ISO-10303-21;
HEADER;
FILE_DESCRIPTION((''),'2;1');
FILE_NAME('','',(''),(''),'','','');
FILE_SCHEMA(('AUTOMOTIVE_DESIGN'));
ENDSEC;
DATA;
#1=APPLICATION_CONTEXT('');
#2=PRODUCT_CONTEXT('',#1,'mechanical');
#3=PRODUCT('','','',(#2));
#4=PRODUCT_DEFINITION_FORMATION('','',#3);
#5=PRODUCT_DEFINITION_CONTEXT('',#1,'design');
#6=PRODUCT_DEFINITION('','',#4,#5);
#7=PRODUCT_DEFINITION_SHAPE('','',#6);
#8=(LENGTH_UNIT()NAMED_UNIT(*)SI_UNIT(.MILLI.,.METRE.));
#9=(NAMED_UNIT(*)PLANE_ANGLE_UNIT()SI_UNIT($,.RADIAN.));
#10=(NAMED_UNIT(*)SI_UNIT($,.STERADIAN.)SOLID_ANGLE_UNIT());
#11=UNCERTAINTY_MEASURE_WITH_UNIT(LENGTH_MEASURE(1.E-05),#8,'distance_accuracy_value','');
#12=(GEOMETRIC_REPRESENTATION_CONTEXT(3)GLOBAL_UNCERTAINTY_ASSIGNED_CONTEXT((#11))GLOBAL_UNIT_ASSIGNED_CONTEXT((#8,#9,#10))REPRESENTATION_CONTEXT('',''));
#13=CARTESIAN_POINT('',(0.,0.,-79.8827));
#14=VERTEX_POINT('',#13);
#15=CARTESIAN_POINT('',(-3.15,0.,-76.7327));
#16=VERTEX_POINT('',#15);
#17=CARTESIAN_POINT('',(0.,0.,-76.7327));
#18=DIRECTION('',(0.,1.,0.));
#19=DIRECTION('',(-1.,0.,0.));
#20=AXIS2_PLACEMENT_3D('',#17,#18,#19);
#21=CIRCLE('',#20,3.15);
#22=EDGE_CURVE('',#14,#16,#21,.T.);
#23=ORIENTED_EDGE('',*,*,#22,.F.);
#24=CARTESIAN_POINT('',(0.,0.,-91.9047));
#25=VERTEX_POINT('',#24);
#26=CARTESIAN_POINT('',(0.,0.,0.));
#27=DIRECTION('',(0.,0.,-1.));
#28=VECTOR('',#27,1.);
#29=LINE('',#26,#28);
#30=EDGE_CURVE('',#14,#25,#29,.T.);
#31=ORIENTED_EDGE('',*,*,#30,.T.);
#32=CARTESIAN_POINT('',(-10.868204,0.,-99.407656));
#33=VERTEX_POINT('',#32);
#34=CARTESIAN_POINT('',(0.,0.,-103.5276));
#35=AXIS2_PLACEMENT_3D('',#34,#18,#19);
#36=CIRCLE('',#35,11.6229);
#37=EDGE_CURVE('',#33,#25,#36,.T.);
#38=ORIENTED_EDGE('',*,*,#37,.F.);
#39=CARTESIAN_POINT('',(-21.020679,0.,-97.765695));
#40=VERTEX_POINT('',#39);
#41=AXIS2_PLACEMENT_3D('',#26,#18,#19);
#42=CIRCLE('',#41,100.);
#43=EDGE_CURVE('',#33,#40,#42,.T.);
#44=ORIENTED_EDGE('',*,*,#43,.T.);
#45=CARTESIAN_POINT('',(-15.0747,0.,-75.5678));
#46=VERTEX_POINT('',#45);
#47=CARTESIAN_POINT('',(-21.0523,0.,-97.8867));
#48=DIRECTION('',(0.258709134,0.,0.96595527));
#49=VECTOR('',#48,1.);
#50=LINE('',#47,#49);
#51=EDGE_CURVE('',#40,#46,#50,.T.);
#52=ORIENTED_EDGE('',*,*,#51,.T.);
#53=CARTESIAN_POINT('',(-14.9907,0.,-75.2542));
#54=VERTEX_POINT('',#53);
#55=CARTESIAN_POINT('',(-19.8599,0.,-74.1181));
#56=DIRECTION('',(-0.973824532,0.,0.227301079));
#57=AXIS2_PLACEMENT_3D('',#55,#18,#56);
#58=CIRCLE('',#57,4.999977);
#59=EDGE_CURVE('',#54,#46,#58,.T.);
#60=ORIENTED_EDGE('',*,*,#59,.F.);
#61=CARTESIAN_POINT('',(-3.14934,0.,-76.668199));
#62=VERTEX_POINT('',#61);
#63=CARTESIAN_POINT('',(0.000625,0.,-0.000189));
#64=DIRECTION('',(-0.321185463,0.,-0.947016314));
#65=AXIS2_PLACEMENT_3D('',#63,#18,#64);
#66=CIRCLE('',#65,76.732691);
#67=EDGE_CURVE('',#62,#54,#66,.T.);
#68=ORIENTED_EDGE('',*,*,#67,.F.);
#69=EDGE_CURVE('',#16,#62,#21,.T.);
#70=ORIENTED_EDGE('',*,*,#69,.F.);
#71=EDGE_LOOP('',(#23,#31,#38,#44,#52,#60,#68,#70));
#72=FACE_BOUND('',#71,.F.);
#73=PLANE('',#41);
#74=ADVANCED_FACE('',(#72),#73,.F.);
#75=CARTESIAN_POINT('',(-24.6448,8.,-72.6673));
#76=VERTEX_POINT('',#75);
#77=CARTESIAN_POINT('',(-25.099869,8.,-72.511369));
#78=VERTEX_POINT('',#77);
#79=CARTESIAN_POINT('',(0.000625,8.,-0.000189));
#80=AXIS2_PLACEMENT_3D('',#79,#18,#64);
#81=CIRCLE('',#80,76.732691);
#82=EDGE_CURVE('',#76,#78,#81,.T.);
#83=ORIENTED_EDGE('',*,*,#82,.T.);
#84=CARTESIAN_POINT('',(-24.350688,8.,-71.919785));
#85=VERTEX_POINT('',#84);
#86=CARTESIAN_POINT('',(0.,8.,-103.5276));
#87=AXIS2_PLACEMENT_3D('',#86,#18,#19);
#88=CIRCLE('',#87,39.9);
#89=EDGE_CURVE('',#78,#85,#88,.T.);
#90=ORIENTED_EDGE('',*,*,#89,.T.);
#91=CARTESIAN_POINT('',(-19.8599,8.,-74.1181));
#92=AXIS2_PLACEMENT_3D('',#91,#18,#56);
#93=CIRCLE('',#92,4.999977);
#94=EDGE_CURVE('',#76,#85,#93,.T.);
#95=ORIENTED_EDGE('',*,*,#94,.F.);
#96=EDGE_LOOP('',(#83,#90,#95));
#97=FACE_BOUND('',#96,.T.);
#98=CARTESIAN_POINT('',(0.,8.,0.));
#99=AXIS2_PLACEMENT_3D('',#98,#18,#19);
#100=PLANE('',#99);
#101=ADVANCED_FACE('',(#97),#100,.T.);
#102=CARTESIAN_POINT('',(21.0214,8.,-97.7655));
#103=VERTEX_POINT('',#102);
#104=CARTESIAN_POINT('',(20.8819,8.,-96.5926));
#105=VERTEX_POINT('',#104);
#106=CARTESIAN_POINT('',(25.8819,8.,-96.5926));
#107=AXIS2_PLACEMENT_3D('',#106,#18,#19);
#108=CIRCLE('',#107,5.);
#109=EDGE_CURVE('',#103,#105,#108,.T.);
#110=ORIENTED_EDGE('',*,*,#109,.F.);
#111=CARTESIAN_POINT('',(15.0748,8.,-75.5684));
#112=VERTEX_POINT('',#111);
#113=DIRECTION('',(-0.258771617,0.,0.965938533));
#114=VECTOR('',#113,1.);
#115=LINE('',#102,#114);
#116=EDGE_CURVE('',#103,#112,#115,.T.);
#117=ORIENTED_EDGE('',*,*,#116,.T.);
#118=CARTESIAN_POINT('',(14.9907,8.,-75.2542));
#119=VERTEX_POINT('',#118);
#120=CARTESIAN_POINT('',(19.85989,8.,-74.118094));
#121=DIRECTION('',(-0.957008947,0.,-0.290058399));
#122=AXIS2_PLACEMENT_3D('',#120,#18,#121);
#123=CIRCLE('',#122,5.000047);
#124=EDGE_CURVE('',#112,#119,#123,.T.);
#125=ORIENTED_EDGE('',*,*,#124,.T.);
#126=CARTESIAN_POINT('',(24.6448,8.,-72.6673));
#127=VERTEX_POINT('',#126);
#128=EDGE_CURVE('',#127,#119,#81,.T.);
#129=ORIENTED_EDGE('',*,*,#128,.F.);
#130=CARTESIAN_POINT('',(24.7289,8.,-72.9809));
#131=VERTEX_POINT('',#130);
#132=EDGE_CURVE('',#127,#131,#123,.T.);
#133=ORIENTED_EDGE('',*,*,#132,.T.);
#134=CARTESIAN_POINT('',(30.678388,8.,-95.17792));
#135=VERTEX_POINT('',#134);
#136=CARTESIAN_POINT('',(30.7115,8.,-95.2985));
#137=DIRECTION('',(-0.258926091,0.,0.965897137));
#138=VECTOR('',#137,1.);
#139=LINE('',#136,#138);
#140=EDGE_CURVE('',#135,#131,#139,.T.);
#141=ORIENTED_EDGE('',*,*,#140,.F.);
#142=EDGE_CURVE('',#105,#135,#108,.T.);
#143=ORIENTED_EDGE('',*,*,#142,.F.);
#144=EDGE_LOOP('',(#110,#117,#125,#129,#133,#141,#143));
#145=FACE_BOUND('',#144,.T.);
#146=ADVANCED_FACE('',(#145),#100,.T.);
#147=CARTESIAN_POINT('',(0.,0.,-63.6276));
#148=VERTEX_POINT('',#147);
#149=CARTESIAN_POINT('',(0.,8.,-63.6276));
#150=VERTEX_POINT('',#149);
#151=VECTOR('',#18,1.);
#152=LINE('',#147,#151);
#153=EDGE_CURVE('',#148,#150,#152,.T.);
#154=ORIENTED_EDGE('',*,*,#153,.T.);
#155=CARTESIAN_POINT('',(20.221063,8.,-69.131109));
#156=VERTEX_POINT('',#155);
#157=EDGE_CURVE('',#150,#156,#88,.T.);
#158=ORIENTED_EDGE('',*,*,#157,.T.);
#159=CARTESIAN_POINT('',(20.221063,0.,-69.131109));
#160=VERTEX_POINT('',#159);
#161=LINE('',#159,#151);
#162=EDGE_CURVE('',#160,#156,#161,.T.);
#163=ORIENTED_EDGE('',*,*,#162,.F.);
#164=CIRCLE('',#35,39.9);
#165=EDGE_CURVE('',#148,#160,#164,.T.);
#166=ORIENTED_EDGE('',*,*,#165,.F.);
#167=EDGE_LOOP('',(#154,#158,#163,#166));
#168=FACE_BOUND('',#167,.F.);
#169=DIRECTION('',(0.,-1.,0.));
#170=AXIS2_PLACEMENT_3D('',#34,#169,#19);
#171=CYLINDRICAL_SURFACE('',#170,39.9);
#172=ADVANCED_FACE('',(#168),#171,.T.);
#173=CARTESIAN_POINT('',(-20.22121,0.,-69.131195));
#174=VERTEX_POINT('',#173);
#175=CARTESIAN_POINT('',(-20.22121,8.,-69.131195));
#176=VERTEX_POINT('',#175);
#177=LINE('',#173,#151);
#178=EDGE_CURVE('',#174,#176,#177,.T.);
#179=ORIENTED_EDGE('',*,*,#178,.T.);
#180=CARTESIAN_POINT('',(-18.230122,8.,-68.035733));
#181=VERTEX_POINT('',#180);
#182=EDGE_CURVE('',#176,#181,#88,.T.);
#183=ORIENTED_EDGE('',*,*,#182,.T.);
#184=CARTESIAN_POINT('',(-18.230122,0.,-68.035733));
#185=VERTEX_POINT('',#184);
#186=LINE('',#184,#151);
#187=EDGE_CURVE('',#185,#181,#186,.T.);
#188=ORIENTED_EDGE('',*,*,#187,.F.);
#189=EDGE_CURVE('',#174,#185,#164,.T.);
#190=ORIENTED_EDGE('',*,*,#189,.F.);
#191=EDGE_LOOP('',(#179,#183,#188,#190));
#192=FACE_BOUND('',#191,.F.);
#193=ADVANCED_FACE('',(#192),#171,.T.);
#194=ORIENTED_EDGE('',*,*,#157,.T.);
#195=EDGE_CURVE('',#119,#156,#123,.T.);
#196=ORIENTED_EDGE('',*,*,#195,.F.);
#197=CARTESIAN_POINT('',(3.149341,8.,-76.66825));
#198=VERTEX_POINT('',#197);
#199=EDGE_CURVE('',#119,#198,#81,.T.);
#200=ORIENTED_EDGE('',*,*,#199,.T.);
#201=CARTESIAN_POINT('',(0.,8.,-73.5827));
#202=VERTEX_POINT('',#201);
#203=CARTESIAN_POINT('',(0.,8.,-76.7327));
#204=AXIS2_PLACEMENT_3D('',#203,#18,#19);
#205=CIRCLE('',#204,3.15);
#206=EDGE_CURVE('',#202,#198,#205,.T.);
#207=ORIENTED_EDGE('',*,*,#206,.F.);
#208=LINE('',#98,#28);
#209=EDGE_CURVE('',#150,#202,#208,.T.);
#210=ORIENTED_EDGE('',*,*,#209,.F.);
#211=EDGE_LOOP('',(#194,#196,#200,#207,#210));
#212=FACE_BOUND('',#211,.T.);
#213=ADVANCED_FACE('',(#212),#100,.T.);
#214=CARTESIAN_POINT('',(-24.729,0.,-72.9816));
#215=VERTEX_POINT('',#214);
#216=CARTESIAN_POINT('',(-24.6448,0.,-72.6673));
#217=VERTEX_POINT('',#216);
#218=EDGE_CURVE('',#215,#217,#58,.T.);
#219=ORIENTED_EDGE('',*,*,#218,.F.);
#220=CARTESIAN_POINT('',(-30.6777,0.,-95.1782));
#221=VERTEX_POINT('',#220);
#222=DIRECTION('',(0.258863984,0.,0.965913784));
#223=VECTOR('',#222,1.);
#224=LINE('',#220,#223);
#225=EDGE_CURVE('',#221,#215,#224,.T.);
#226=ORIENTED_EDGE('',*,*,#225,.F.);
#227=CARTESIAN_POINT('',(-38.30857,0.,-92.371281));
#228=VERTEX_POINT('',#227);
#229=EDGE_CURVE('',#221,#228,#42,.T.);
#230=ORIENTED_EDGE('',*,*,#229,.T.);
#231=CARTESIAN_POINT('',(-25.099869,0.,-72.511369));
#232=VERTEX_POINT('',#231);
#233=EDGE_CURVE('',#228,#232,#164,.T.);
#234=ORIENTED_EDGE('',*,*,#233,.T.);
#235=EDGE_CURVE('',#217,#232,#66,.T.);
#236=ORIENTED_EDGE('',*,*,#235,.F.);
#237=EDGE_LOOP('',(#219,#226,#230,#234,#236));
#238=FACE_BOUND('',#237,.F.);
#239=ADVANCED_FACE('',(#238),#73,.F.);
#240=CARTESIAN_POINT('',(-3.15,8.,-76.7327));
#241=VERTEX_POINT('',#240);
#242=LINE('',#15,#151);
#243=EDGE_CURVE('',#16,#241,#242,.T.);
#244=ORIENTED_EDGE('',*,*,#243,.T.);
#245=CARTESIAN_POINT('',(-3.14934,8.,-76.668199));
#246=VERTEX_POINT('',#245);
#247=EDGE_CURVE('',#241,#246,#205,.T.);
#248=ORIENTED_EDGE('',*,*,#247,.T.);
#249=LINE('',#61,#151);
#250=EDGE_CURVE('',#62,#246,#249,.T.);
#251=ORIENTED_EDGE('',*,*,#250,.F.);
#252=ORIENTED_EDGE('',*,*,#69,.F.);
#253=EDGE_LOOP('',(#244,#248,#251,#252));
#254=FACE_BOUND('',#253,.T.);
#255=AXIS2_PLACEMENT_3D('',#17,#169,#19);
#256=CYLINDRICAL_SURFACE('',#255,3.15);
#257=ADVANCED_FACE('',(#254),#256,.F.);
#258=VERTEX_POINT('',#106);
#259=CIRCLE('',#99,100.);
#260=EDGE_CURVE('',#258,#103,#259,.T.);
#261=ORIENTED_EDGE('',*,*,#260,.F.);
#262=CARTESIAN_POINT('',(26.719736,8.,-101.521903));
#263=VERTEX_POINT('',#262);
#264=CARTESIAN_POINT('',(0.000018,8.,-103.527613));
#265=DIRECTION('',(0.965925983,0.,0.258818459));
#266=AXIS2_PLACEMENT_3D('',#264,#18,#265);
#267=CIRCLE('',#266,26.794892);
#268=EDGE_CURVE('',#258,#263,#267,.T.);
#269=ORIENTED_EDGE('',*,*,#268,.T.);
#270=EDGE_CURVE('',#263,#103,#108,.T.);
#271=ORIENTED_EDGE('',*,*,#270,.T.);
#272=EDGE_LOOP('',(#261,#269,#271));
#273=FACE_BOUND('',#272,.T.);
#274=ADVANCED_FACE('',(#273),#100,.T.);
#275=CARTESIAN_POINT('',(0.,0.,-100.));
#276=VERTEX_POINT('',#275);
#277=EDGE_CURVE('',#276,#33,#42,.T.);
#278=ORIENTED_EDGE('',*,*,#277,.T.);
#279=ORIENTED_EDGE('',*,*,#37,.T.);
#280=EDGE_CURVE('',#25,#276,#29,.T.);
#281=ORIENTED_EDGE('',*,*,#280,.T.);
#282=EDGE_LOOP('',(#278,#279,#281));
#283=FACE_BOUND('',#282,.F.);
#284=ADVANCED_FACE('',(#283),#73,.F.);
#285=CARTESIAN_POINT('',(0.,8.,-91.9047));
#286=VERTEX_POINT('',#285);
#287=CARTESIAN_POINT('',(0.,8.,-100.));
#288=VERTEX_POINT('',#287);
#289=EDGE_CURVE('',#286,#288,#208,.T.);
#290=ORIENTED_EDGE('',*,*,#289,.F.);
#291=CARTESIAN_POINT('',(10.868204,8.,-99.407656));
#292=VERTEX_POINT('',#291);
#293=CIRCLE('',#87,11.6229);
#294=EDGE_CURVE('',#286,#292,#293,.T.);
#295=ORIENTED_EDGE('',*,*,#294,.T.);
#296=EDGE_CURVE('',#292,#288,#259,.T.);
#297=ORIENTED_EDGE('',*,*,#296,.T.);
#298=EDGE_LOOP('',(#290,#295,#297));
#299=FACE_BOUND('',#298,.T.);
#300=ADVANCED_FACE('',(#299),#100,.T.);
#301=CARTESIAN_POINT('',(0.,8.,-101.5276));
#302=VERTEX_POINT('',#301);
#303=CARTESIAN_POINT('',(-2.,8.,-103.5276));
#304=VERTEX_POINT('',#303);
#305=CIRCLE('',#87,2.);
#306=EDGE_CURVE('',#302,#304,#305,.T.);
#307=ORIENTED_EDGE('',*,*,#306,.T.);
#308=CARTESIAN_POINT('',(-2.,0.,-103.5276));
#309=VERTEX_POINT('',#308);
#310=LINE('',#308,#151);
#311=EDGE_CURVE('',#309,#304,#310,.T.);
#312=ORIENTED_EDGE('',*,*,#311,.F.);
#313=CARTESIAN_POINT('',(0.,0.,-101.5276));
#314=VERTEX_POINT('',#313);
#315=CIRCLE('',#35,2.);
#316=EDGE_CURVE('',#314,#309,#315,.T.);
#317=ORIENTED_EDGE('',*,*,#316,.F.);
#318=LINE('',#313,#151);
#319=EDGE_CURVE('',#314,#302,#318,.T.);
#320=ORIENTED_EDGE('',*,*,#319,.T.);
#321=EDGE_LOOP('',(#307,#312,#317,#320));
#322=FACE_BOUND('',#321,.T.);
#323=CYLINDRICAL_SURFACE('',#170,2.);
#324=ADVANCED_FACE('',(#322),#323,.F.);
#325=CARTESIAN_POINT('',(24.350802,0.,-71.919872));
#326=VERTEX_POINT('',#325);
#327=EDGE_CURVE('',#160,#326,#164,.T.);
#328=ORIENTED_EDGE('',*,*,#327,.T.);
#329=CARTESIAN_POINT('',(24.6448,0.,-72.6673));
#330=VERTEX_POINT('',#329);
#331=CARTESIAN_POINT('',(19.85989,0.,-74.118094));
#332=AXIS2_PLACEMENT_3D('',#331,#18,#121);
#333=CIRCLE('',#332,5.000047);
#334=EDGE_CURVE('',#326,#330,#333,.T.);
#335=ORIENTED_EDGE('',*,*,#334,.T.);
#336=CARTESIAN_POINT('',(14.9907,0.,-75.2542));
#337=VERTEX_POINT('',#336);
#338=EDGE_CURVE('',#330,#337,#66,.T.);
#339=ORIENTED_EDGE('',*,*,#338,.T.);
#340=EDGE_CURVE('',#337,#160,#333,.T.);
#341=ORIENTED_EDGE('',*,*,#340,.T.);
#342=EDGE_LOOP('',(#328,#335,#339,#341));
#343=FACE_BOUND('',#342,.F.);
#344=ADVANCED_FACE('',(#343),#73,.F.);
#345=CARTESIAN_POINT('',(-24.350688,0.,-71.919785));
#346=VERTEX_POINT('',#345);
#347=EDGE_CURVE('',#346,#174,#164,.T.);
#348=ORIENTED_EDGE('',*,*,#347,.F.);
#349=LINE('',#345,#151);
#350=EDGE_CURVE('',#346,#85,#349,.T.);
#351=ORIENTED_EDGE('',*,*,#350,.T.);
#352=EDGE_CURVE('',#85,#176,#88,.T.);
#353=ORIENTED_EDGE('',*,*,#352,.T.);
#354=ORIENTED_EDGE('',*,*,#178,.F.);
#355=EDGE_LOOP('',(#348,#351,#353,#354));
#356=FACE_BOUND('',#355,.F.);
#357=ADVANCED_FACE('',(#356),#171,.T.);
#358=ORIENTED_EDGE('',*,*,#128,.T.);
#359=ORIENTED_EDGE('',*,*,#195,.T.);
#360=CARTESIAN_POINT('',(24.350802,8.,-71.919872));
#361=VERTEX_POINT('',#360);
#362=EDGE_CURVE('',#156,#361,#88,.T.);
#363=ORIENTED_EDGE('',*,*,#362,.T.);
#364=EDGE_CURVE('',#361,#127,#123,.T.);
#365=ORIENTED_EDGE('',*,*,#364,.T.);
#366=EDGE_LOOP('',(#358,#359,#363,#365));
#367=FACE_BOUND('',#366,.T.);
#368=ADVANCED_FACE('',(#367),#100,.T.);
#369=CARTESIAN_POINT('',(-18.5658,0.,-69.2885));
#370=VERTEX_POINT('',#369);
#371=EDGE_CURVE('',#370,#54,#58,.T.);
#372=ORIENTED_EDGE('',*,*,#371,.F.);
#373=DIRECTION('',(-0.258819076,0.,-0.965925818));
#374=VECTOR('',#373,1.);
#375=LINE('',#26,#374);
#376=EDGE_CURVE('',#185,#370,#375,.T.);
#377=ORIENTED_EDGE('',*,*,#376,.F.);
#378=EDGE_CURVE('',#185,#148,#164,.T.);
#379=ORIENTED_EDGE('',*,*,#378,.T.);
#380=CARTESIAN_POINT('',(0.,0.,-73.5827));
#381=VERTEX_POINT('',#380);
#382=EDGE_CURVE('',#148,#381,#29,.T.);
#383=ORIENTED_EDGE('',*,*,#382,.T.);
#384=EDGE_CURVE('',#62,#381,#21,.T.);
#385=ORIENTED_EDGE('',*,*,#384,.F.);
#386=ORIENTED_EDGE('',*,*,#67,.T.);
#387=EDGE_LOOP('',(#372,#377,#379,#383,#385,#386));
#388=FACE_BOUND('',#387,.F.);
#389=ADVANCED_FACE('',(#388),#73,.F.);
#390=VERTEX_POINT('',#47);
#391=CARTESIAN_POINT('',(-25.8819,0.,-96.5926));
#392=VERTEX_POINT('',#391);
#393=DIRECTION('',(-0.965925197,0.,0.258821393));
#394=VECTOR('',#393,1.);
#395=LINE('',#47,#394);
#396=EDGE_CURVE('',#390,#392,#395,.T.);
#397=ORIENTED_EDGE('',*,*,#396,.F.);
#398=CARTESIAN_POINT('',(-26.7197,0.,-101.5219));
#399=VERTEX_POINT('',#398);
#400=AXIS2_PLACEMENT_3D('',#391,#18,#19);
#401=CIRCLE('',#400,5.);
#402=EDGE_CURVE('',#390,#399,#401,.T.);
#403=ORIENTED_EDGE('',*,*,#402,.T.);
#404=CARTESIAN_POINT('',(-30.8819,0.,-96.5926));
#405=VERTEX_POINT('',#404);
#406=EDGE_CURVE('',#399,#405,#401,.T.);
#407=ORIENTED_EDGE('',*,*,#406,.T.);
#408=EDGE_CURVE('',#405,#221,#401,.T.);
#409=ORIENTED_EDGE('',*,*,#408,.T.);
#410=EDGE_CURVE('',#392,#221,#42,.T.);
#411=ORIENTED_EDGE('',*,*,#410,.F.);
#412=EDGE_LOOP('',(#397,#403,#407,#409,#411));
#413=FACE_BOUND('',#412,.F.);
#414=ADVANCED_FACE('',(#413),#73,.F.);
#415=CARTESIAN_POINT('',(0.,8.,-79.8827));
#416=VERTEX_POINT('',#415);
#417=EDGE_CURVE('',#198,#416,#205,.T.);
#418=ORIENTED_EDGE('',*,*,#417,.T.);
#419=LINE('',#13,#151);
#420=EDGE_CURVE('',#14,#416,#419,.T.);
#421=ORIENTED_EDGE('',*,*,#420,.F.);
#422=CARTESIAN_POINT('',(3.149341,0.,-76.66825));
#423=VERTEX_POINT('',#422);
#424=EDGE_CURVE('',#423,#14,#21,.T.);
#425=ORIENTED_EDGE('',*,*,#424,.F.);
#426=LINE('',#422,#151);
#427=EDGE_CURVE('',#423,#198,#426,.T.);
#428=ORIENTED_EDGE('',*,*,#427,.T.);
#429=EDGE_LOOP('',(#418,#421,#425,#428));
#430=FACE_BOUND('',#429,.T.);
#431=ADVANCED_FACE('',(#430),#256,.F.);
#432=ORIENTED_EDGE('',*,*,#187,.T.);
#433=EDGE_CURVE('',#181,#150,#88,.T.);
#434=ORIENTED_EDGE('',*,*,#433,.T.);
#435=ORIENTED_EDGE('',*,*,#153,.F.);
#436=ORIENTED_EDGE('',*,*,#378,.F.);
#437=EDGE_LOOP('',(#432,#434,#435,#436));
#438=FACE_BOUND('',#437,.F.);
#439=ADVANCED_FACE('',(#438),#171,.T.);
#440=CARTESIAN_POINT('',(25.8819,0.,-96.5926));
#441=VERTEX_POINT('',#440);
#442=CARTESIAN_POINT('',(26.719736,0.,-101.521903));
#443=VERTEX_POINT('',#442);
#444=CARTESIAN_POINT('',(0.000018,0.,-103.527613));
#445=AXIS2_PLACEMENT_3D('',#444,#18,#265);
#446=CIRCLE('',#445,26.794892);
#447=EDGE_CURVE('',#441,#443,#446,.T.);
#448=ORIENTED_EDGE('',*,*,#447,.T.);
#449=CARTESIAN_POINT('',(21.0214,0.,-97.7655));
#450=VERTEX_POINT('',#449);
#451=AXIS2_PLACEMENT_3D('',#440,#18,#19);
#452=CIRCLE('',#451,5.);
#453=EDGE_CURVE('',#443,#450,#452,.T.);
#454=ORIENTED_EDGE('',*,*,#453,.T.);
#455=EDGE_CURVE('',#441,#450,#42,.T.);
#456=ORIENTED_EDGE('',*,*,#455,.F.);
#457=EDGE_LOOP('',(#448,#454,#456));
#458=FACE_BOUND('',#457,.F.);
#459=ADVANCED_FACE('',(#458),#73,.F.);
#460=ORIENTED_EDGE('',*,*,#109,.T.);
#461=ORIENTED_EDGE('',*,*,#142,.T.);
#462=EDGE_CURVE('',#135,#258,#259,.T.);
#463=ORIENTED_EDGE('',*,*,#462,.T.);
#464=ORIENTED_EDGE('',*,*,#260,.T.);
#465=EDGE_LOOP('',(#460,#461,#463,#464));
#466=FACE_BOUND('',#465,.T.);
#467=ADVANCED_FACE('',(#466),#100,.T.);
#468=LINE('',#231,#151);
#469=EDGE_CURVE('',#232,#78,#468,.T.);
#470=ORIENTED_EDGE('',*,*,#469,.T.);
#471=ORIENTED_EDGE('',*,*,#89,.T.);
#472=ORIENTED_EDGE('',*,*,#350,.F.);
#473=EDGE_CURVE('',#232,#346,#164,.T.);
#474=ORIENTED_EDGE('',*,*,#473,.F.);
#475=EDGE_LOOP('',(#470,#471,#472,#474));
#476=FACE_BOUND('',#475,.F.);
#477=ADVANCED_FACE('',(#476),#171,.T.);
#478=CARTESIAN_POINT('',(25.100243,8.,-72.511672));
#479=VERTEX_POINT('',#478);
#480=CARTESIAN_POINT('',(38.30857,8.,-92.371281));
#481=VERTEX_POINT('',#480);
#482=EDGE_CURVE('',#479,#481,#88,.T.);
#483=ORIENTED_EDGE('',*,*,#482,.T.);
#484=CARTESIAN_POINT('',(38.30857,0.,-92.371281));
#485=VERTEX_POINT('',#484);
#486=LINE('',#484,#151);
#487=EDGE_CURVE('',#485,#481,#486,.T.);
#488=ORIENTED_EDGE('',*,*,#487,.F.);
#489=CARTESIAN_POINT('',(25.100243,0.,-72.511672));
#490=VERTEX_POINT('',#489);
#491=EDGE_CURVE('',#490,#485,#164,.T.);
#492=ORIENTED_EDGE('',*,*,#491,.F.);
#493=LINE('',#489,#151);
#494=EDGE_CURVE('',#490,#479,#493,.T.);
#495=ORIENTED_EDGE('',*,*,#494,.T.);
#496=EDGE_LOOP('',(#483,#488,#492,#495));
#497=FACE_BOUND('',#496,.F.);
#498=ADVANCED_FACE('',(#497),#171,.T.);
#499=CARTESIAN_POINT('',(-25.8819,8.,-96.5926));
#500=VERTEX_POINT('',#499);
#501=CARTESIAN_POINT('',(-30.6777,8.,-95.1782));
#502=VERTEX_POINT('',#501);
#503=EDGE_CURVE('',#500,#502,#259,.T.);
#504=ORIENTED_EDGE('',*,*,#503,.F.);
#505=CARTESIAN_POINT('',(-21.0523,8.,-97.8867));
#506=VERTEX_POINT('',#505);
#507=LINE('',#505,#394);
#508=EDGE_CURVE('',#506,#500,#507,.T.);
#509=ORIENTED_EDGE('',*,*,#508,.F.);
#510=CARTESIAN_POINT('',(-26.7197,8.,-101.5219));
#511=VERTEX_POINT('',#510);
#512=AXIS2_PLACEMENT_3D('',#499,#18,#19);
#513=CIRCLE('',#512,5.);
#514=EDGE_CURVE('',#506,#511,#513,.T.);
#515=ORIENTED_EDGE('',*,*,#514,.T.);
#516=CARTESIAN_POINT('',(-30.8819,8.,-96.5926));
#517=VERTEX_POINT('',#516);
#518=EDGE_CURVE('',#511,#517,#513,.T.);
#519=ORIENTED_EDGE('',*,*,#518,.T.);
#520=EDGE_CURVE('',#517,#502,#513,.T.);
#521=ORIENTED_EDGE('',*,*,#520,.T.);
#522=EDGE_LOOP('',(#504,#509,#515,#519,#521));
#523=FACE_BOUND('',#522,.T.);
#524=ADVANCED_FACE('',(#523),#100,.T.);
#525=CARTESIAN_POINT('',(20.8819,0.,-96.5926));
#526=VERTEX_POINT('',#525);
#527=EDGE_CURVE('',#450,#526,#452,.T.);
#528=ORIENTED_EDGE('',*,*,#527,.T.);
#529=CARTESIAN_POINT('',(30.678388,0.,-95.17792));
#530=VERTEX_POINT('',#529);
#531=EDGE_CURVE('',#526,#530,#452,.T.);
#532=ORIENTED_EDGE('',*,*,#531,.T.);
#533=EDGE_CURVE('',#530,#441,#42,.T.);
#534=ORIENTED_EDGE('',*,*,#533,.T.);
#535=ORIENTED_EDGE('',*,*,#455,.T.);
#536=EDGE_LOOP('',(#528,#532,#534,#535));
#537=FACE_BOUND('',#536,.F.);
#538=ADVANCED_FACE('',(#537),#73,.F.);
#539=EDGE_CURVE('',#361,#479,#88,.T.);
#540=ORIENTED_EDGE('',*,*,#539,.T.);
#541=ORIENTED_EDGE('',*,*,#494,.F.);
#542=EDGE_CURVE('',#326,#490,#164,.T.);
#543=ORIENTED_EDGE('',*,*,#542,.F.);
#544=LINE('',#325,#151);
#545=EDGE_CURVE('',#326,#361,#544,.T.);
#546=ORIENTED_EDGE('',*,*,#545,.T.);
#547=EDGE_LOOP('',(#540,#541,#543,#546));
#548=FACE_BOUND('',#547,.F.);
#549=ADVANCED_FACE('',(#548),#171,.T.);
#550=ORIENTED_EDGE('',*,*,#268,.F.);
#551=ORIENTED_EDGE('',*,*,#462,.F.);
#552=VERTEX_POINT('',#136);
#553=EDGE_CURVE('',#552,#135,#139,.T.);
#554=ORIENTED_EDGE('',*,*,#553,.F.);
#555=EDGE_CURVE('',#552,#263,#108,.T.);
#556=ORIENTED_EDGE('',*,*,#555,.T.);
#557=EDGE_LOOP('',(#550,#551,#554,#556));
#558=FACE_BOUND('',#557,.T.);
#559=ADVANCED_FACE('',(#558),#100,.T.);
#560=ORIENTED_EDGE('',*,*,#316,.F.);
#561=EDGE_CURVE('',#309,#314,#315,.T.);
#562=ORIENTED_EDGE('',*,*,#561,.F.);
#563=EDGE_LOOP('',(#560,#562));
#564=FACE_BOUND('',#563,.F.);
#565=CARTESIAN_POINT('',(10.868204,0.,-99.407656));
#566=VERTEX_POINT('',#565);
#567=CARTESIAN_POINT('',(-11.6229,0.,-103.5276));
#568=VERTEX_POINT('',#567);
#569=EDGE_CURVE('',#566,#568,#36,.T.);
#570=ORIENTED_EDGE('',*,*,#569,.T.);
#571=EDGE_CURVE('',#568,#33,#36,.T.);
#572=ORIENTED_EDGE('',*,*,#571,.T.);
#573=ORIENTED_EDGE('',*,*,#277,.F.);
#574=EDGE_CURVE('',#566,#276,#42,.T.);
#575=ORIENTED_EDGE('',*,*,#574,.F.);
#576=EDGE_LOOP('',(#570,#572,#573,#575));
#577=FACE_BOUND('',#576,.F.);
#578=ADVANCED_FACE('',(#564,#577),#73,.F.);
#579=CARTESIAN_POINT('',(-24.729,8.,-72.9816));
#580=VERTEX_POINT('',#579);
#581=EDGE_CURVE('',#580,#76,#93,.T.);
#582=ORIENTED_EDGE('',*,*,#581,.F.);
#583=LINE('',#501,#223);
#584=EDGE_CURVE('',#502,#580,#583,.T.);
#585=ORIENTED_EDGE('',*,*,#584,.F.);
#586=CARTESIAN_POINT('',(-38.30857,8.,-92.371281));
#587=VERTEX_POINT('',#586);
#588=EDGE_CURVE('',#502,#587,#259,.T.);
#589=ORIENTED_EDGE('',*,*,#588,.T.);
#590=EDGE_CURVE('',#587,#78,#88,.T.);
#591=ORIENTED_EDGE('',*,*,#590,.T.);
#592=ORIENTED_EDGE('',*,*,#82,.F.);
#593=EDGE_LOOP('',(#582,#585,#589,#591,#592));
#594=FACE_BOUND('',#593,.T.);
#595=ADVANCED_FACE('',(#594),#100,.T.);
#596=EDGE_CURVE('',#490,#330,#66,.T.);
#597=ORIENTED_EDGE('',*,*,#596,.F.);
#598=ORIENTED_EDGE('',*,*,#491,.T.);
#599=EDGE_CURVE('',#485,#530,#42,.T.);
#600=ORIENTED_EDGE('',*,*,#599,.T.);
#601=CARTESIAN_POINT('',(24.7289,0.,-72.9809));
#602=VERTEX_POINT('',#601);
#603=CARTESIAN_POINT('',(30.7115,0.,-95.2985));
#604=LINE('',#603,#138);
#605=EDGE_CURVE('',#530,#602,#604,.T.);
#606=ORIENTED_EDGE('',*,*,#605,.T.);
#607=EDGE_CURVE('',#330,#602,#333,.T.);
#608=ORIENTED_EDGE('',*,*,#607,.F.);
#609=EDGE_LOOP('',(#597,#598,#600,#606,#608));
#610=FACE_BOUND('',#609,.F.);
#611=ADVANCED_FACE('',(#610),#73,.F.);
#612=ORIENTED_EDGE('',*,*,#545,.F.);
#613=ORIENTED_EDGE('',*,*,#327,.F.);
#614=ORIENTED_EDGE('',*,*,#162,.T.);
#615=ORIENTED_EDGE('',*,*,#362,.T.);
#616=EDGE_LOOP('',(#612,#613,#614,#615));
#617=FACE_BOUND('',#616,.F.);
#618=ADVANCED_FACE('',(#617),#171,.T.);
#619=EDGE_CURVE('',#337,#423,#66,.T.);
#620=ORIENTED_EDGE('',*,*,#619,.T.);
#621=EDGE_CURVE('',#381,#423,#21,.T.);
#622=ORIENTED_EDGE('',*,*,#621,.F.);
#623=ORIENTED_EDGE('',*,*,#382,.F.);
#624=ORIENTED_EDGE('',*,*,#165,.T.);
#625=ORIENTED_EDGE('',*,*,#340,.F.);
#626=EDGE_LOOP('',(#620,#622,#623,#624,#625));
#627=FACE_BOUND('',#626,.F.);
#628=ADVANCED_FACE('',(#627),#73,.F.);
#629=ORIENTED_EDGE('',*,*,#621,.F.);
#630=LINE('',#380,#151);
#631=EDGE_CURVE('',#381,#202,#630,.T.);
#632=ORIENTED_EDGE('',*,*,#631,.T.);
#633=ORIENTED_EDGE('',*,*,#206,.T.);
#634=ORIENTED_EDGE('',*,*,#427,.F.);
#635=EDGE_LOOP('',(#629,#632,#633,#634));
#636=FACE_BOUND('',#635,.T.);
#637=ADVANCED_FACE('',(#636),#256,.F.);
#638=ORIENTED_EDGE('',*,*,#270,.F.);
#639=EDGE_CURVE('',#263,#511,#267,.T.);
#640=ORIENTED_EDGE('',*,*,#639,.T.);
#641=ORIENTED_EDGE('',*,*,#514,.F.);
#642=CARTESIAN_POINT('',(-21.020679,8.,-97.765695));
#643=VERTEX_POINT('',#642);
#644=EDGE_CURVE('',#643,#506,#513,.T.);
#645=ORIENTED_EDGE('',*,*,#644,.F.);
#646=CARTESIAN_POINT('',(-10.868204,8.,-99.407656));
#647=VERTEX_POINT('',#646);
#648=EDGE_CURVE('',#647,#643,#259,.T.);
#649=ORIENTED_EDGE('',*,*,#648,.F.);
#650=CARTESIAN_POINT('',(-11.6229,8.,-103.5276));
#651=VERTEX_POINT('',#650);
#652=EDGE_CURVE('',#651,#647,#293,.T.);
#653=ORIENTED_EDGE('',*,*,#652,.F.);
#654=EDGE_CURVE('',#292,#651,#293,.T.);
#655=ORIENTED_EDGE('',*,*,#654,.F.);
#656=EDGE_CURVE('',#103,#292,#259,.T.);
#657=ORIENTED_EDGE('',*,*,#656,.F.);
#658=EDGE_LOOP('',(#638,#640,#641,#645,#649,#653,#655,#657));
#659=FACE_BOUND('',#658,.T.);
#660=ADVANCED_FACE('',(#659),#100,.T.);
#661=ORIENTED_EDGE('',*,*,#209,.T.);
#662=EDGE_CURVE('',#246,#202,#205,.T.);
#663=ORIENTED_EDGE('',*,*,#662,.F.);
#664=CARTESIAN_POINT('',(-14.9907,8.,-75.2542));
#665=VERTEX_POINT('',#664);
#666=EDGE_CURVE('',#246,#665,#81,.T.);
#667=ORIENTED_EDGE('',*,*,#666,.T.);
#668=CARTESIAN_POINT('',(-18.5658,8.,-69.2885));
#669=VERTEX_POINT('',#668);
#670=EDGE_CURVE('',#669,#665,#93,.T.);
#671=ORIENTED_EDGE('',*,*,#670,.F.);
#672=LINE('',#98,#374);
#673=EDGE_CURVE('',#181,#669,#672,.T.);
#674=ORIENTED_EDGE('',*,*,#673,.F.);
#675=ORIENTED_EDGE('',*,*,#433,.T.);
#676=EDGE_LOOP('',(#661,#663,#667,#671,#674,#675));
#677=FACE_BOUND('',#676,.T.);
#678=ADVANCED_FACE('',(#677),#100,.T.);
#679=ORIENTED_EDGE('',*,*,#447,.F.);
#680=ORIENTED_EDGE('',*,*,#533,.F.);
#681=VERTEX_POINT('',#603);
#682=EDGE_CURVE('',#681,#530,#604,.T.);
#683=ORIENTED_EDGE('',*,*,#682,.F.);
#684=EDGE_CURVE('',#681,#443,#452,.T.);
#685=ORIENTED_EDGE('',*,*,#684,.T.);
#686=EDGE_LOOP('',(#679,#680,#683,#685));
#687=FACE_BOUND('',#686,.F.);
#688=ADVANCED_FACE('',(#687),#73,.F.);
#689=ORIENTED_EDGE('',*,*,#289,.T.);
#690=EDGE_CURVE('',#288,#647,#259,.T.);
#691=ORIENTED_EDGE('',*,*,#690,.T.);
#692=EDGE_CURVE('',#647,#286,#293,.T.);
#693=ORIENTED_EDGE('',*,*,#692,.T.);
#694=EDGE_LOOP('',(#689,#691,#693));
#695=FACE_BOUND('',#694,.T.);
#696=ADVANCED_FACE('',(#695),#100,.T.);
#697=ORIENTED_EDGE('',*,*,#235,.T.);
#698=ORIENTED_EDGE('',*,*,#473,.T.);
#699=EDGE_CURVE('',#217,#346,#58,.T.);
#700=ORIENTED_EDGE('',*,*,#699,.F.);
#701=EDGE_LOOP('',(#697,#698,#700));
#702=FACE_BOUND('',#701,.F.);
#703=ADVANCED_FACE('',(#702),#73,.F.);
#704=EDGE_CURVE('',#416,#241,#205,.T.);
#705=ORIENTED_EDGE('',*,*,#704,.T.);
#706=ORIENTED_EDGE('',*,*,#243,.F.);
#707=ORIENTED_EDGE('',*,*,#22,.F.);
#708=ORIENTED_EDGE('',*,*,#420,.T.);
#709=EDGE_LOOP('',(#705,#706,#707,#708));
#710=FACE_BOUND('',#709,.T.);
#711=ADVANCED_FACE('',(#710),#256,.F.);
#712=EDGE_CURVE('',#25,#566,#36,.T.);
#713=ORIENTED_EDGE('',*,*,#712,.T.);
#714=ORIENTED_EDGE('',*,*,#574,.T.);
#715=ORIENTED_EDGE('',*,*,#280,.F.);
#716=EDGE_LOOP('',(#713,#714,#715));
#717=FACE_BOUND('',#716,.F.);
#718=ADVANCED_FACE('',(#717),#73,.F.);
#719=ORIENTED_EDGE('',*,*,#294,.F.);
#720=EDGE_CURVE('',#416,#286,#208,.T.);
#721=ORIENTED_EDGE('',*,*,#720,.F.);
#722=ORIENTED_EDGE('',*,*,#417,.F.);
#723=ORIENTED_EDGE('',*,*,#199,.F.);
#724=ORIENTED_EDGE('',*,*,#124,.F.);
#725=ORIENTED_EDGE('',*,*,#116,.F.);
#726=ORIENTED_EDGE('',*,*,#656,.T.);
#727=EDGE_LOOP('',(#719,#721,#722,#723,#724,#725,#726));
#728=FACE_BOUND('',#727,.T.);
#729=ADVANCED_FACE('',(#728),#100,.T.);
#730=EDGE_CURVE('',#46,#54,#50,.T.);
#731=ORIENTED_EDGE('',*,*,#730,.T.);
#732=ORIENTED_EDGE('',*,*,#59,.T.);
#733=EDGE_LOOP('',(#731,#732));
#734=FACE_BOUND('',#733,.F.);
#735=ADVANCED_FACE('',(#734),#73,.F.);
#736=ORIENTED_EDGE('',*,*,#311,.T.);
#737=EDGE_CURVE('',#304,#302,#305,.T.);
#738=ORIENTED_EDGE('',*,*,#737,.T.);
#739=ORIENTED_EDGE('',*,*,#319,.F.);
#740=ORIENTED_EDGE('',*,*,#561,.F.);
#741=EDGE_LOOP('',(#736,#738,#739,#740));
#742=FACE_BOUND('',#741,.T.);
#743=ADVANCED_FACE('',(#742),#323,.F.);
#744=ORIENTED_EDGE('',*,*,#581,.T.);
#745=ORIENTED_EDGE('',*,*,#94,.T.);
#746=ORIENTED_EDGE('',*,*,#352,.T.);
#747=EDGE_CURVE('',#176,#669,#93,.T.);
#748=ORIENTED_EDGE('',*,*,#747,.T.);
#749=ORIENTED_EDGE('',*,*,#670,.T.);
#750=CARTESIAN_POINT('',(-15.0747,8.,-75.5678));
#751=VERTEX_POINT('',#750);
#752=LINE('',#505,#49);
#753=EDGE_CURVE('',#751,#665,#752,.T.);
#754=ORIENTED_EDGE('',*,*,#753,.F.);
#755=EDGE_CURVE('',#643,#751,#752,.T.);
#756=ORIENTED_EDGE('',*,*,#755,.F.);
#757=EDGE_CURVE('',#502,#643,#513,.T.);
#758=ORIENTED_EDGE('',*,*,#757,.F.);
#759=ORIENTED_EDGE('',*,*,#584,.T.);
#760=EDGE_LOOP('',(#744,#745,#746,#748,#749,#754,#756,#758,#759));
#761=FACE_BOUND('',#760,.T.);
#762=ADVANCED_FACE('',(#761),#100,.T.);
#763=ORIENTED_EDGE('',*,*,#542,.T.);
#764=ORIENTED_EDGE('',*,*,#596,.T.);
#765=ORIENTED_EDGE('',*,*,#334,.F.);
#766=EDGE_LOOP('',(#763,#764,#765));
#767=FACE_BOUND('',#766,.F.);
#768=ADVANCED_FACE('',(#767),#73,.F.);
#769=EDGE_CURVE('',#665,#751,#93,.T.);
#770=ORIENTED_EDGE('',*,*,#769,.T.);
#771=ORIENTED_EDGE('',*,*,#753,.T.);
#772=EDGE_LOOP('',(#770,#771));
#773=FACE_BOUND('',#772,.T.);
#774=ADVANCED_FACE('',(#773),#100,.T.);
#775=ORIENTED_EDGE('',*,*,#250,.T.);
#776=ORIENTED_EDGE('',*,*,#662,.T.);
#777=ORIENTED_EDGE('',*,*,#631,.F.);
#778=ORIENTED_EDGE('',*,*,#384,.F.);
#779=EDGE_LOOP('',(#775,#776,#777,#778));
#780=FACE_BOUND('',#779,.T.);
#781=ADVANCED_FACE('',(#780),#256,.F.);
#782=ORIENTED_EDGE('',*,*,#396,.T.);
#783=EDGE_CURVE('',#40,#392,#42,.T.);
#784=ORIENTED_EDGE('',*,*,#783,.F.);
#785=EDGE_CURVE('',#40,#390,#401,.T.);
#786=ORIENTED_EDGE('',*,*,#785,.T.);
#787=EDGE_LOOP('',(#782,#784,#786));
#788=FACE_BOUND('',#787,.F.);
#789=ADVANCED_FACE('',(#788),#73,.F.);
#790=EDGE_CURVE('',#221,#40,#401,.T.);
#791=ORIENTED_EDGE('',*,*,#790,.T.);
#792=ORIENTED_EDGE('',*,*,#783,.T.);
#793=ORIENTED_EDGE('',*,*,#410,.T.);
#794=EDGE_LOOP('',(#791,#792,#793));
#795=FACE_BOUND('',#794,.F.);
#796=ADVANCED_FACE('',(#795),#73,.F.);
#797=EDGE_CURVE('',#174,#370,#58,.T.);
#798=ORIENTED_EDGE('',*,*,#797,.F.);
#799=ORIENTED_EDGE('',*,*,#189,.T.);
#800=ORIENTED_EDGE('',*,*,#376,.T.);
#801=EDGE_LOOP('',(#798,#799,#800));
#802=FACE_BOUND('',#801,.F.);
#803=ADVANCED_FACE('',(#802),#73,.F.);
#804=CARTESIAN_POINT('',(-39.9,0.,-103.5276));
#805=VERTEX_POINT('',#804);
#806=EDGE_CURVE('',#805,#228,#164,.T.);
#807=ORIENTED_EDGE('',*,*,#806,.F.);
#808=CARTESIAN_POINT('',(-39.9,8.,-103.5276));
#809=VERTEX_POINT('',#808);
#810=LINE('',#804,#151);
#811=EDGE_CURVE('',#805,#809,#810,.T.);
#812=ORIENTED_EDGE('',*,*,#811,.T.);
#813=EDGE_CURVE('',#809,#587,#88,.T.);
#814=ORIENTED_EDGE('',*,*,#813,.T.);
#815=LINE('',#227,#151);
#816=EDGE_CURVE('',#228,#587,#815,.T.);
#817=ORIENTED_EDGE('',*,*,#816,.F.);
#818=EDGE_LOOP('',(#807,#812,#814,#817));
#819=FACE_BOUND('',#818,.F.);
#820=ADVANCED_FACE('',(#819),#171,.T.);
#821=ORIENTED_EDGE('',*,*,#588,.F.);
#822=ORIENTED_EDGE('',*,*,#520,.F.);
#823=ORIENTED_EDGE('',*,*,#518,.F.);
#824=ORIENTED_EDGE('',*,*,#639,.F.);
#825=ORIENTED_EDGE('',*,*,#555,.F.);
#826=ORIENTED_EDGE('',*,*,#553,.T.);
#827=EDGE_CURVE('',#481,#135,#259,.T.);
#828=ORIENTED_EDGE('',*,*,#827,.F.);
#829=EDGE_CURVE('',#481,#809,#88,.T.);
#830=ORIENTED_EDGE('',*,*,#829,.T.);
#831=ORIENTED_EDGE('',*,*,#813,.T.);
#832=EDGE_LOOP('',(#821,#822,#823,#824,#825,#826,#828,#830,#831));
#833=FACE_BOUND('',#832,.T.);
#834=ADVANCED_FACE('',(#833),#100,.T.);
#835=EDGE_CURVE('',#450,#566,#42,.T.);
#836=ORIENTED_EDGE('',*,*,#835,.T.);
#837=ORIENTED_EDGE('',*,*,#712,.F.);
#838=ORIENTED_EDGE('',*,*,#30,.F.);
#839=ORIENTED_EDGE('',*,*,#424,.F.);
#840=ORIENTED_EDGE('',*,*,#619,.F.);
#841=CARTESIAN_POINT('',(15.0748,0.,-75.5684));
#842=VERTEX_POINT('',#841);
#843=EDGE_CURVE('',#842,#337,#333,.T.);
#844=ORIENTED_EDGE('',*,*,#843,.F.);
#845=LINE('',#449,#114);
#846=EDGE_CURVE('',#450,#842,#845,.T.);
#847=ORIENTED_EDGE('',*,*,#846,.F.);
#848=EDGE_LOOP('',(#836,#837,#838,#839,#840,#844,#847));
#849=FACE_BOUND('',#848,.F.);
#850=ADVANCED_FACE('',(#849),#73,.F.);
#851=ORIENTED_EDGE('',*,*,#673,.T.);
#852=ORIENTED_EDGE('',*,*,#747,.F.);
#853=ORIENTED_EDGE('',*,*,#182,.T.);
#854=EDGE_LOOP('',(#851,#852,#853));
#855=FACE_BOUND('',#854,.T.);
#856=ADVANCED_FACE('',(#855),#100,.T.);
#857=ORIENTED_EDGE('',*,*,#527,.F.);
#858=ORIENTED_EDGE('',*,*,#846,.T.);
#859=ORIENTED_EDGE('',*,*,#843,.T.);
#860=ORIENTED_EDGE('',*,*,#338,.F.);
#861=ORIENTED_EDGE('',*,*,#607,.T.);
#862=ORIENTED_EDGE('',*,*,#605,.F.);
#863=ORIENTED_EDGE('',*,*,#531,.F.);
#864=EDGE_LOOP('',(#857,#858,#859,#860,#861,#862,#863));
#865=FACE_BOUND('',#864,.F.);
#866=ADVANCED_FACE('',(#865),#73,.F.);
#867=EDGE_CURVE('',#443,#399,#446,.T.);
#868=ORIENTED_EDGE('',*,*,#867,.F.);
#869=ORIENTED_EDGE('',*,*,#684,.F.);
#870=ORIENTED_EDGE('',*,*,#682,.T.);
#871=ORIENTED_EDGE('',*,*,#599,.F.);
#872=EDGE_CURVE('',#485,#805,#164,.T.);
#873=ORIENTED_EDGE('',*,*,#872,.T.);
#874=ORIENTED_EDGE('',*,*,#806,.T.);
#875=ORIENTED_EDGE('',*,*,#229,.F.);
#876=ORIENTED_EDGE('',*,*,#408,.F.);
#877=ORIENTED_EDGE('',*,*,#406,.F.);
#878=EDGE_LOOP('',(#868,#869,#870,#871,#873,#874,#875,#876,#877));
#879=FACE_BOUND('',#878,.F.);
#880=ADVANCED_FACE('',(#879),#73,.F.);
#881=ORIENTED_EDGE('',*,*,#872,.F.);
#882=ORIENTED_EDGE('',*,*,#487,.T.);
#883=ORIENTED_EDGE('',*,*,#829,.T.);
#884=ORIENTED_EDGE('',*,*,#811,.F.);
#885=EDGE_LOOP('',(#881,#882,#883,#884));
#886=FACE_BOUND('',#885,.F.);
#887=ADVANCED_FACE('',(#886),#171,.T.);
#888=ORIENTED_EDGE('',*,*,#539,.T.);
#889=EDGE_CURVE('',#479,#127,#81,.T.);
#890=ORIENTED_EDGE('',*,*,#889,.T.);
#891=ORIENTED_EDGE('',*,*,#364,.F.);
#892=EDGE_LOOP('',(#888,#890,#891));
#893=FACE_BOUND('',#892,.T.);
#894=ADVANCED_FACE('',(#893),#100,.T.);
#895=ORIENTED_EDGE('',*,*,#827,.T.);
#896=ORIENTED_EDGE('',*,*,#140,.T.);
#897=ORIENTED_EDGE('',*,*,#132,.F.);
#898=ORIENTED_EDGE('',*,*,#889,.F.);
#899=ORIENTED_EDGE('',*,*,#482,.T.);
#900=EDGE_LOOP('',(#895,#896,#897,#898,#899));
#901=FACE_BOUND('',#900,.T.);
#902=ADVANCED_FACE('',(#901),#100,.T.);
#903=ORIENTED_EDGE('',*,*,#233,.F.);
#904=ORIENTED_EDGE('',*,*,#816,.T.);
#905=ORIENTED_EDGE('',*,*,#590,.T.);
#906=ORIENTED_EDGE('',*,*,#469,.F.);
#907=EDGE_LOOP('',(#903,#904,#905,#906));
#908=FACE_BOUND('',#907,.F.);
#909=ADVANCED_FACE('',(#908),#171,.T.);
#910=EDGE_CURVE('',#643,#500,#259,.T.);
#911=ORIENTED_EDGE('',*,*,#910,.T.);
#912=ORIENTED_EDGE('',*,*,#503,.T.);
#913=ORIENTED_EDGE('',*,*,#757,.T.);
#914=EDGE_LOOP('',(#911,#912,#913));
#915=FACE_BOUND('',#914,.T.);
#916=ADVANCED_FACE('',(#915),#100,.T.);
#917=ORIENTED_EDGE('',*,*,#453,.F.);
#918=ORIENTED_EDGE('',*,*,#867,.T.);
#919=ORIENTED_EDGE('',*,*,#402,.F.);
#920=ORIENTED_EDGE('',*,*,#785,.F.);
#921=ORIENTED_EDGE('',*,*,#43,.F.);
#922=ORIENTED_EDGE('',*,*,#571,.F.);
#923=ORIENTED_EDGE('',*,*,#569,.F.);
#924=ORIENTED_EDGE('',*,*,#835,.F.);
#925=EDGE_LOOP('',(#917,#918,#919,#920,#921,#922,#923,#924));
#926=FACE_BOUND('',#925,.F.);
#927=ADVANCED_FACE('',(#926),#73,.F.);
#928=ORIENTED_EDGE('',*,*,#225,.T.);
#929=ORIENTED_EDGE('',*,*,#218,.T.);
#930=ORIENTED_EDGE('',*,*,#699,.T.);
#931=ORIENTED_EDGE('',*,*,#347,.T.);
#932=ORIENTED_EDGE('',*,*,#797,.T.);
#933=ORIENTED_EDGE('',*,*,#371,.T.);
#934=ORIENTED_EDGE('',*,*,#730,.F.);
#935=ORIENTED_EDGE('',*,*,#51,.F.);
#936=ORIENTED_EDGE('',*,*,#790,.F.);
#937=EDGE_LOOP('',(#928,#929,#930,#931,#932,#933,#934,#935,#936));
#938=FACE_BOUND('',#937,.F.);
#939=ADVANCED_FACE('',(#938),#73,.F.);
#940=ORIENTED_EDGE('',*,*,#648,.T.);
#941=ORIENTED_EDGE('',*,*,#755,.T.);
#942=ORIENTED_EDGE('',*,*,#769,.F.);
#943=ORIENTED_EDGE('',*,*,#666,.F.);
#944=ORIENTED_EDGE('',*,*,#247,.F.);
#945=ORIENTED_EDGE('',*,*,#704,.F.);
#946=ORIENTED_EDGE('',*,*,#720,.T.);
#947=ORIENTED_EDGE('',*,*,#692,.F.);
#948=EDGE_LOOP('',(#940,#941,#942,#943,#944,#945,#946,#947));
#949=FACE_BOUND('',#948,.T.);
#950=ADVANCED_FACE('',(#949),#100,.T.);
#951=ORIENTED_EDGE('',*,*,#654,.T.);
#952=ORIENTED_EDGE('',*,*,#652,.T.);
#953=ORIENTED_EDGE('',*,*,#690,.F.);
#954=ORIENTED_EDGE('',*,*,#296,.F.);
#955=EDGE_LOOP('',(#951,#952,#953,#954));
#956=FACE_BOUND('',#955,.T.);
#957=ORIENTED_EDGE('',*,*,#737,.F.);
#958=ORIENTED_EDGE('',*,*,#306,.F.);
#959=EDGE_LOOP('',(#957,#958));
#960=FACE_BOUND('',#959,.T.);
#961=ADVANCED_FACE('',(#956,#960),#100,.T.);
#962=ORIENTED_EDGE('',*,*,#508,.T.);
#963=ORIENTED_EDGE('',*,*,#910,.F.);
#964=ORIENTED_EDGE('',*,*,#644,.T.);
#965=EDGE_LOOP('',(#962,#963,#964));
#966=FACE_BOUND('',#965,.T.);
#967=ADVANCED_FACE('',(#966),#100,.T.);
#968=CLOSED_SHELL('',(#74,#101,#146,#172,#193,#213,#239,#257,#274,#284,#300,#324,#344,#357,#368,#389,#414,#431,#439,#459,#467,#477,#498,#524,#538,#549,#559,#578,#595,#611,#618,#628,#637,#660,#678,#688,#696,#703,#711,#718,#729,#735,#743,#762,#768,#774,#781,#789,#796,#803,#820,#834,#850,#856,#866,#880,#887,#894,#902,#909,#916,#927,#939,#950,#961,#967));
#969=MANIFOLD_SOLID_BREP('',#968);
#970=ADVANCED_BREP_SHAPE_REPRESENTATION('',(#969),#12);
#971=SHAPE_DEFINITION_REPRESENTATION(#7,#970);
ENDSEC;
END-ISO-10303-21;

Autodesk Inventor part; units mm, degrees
ref_plane "YZ Plane" through (0, 0, 0) normal (1, 0, 0) x (0, 1, 0)
ref_plane "XZ Plane" through (0, 0, 0) normal (0, 1, 0) x (-1, 0, 0)
ref_plane "XY Plane" through (0, 0, 0) normal (0, 0, 1) x (1, 0, 0)
sketch "Sketch1" plane through (0, 0, 0) normal (0, 1, 0) x (-1, 0, 0)
  circle A0 centre (0, 0) radius 100
  line L0 (0, 0) -> (18.5658, -69.2885)
  line L1 (0, 0) -> (0, -103.5276)
  arc A1 (24.6448, -72.6673) -> (14.9907, -75.2542) centre (0, 0) ccw
  circle A2 centre (25.8819, -96.5926) radius 5
  arc A3 (24.729, -72.9816) -> (15.0747, -75.5678) centre (19.8599, -74.1181) ccw
  line L2 (30.6777, -95.1782) -> (24.6448, -72.6673)
  line L3 (21.0523, -97.8867) -> (14.9907, -75.2542)
  circle A4 centre (0, -103.5276) radius 11.6229
  line L4 (21.0523, -97.8867) -> (25.8819, -96.5926)
  arc A5 (-25.8819, -96.5926) -> (26.7197, -101.5219) centre (0, -103.5276) ccw
  circle A6 centre (0, -103.5276) radius 39.9
  arc A7 (57.9067, -50.8394) -> (50.8389, -57.9063) centre (54.2582, -54.2582) ccw
  line L5 (67.1751, -74.2462) -> (50.6094, -57.6767)
  line L6 (74.1567, -67.0879) -> (57.6767, -50.6094)
  circle A8 centre (70.7107, -70.7107) radius 5
  circle A9 centre (51.7638, -89.6575) radius 11.6229
  arc A10 (75.5684, -15.0748) -> (72.9809, -24.7289) centre (74.1181, -19.8599) ccw
  line L7 (95.2985, -30.7115) -> (72.6673, -24.6448)
  line L8 (97.7655, -21.0214) -> (75.2542, -14.9907)
  circle A11 centre (96.5926, -25.8819) radius 5
  circle A12 centre (89.6575, -51.7638) radius 11.6229
  arc A13 (72.9816, 24.729) -> (75.5678, 15.0747) centre (74.1181, 19.8599) ccw
  line L9 (97.8867, 21.0523) -> (75.2542, 14.9907)
  line L10 (95.1782, 30.6777) -> (72.6673, 24.6448)
  circle A14 centre (96.5926, 25.8819) radius 5
  circle A15 centre (103.5276, 0) radius 11.6229
  arc A16 (50.8394, 57.9067) -> (57.9063, 50.8389) centre (54.2582, 54.2582) ccw
  line L11 (74.2462, 67.1751) -> (57.6767, 50.6094)
  line L12 (67.0879, 74.1567) -> (50.6094, 57.6767)
  circle A17 centre (70.7107, 70.7107) radius 5
  circle A18 centre (89.6575, 51.7638) radius 11.6229
  arc A19 (15.0748, 75.5684) -> (24.7289, 72.9809) centre (19.8599, 74.1181) ccw
  line L13 (30.7115, 95.2985) -> (24.6448, 72.6673)
  line L14 (21.0214, 97.7655) -> (14.9907, 75.2542)
  circle A20 centre (25.8819, 96.5926) radius 5
  circle A21 centre (51.7638, 89.6575) radius 11.6229
  arc A22 (-24.729, 72.9816) -> (-15.0747, 75.5678) centre (-19.8599, 74.1181) ccw
  line L15 (-21.0523, 97.8867) -> (-14.9907, 75.2542)
  line L16 (-30.6777, 95.1782) -> (-24.6448, 72.6673)
  circle A23 centre (-25.8819, 96.5926) radius 5
  circle A24 centre (0, 103.5276) radius 11.6229
  arc A25 (-57.9067, 50.8394) -> (-50.8389, 57.9063) centre (-54.2582, 54.2582) ccw
  line L17 (-67.1751, 74.2462) -> (-50.6094, 57.6767)
  line L18 (-74.1567, 67.0879) -> (-57.6767, 50.6094)
  circle A26 centre (-70.7107, 70.7107) radius 5
  circle A27 centre (-51.7638, 89.6575) radius 11.6229
  arc A28 (-75.5684, 15.0748) -> (-72.9809, 24.7289) centre (-74.1181, 19.8599) ccw
  line L19 (-95.2985, 30.7115) -> (-72.6673, 24.6448)
  line L20 (-97.7655, 21.0214) -> (-75.2542, 14.9907)
  circle A29 centre (-96.5926, 25.8819) radius 5
  circle A30 centre (-89.6575, 51.7638) radius 11.6229
  arc A31 (-72.9816, -24.729) -> (-75.5678, -15.0747) centre (-74.1181, -19.8599) ccw
  line L21 (-97.8867, -21.0523) -> (-75.2542, -14.9907)
  line L22 (-95.1782, -30.6777) -> (-72.6673, -24.6448)
  circle A32 centre (-96.5926, -25.8819) radius 5
  circle A33 centre (-103.5276, 0) radius 11.6229
  arc A34 (-50.8394, -57.9067) -> (-57.9063, -50.8389) centre (-54.2582, -54.2582) ccw
  line L23 (-74.2462, -67.1751) -> (-57.6767, -50.6094)
  line L24 (-67.0879, -74.1567) -> (-50.6094, -57.6767)
  circle A35 centre (-70.7107, -70.7107) radius 5
  circle A36 centre (-89.6575, -51.7638) radius 11.6229
  arc A37 (-15.0748, -75.5684) -> (-24.7289, -72.9809) centre (-19.8599, -74.1181) ccw
  line L25 (-30.7115, -95.2985) -> (-24.6448, -72.6673)
  line L26 (-21.0214, -97.7655) -> (-14.9907, -75.2542)
  circle A38 centre (-25.8819, -96.5926) radius 5
  circle A39 centre (-51.7638, -89.6575) radius 11.6229
  circle A40 centre (0, 0) radius 5
  circle A41 centre (0, -103.5276) radius 2
  circle A42 centre (0, -76.7327) radius 3.15
  point P0 (50.7227, -50.7227)
  point P1 (73.9009, -74.5607)
  point P2 (69.2885, -18.5658)
  point P3 (101.2804, -27.621)
  point P4 (69.2885, 18.5658)
  point P5 (101.5219, 26.7197)
  point P6 (50.7227, 50.7227)
  point P7 (74.5607, 73.9009)
  point P8 (18.5658, 69.2885)
  point P9 (27.621, 101.2804)
  point P10 (-18.5658, 69.2885)
  point P11 (-26.7197, 101.5219)
  point P12 (-50.7227, 50.7227)
  point P13 (-73.9009, 74.5607)
  point P14 (-69.2885, 18.5658)
  point P15 (-101.2804, 27.621)
  point P16 (-69.2885, -18.5658)
  point P17 (-101.5219, -26.7197)
  point P18 (-50.7227, -50.7227)
  point P19 (-74.5607, -73.9009)
  point P20 (-18.5658, -69.2885)
  point P21 (-27.621, -101.2804)
  point P22 (40.2917, -91.5236)
  point P23 (59.1159, -80.6555)
  point P24 (67.0867, -74.1578)
  point P25 (80.6555, -59.1159)
  point P26 (91.5236, -40.2917)
  point P27 (95.1777, -30.6791)
  point P28 (99.4077, -10.8682)
  point P29 (99.4077, 10.8682)
  point P30 (97.7659, 21.0199)
  point P31 (91.5236, 40.2917)
  point P32 (80.6555, 59.1159)
  point P33 (74.1578, 67.0867)
  point P34 (59.1159, 80.6555)
  point P35 (40.2917, 91.5236)
  point P36 (30.6791, 95.1777)
  point P37 (10.8682, 99.4077)
  point P38 (-10.8682, 99.4077)
  point P39 (-21.0199, 97.7659)
  point P40 (-40.2917, 91.5236)
  point P41 (-59.1159, 80.6555)
  point P42 (-67.0867, 74.1578)
  point P43 (-80.6555, 59.1159)
  point P44 (-91.5236, 40.2917)
  point P45 (-95.1777, 30.6791)
  point P46 (-99.4077, 10.8682)
  point P47 (-99.4077, -10.8682)
  point P48 (-97.7659, -21.0199)
  point P49 (-91.5236, -40.2917)
  point P50 (-80.6555, -59.1159)
  point P51 (-74.1578, -67.0867)
  point P52 (-59.1159, -80.6555)
  point P53 (-40.2917, -91.5236)
  point P54 (-30.6791, -95.1777)
  point P55 (-10.8682, -99.4077)
  point P56 (10.8682, -99.4077)
  point P57 (21.0199, -97.7659)
  point P58 (-10.8682, -99.4077)
  point P59 (10.8682, -99.4077)
  dimension "d2" = 200
  dimension "d3" = 15
  dimension "d4" = 10
  dimension "d5" = 10
  dimension "d6" = 79.8
  dimension "d7" = 360
  dimension "d8" = 10
  dimension "d9" = 4
  dimension "d10" = 6.3
extrude "Extrusion1" add sketch "Sketch1" along normal blind 8 contours A0 A38 | A5 A38 L25 A0 | A0 A38 A5 | L26 A37 A1 A42 L1 A4 A0 | A38 L25 A37 A1 L26 | A0 A4 A2 A5 A38 | L25 A38 A5 A2 A0 A6 | A0 A6 A1 A37 L25 | A4 L1 A0 | A0 A4 | A2 L4 A0 | L1 A4 A0 | L1 A42 A1 A3 L3 A0 A4 | A37 A6 L1 A42 A1 | A1 A37 A6 | A6 A37 A1 | A2 A0 L4 | A0 L2 A3 A1 A6 | A2 A0 | L3 A3 A6 L2 A2 | L1 A6 L0 A3 A1 A42 | A1 A3 A6 | A3 L3 | A6 A3 L0
properties part number "topper"
